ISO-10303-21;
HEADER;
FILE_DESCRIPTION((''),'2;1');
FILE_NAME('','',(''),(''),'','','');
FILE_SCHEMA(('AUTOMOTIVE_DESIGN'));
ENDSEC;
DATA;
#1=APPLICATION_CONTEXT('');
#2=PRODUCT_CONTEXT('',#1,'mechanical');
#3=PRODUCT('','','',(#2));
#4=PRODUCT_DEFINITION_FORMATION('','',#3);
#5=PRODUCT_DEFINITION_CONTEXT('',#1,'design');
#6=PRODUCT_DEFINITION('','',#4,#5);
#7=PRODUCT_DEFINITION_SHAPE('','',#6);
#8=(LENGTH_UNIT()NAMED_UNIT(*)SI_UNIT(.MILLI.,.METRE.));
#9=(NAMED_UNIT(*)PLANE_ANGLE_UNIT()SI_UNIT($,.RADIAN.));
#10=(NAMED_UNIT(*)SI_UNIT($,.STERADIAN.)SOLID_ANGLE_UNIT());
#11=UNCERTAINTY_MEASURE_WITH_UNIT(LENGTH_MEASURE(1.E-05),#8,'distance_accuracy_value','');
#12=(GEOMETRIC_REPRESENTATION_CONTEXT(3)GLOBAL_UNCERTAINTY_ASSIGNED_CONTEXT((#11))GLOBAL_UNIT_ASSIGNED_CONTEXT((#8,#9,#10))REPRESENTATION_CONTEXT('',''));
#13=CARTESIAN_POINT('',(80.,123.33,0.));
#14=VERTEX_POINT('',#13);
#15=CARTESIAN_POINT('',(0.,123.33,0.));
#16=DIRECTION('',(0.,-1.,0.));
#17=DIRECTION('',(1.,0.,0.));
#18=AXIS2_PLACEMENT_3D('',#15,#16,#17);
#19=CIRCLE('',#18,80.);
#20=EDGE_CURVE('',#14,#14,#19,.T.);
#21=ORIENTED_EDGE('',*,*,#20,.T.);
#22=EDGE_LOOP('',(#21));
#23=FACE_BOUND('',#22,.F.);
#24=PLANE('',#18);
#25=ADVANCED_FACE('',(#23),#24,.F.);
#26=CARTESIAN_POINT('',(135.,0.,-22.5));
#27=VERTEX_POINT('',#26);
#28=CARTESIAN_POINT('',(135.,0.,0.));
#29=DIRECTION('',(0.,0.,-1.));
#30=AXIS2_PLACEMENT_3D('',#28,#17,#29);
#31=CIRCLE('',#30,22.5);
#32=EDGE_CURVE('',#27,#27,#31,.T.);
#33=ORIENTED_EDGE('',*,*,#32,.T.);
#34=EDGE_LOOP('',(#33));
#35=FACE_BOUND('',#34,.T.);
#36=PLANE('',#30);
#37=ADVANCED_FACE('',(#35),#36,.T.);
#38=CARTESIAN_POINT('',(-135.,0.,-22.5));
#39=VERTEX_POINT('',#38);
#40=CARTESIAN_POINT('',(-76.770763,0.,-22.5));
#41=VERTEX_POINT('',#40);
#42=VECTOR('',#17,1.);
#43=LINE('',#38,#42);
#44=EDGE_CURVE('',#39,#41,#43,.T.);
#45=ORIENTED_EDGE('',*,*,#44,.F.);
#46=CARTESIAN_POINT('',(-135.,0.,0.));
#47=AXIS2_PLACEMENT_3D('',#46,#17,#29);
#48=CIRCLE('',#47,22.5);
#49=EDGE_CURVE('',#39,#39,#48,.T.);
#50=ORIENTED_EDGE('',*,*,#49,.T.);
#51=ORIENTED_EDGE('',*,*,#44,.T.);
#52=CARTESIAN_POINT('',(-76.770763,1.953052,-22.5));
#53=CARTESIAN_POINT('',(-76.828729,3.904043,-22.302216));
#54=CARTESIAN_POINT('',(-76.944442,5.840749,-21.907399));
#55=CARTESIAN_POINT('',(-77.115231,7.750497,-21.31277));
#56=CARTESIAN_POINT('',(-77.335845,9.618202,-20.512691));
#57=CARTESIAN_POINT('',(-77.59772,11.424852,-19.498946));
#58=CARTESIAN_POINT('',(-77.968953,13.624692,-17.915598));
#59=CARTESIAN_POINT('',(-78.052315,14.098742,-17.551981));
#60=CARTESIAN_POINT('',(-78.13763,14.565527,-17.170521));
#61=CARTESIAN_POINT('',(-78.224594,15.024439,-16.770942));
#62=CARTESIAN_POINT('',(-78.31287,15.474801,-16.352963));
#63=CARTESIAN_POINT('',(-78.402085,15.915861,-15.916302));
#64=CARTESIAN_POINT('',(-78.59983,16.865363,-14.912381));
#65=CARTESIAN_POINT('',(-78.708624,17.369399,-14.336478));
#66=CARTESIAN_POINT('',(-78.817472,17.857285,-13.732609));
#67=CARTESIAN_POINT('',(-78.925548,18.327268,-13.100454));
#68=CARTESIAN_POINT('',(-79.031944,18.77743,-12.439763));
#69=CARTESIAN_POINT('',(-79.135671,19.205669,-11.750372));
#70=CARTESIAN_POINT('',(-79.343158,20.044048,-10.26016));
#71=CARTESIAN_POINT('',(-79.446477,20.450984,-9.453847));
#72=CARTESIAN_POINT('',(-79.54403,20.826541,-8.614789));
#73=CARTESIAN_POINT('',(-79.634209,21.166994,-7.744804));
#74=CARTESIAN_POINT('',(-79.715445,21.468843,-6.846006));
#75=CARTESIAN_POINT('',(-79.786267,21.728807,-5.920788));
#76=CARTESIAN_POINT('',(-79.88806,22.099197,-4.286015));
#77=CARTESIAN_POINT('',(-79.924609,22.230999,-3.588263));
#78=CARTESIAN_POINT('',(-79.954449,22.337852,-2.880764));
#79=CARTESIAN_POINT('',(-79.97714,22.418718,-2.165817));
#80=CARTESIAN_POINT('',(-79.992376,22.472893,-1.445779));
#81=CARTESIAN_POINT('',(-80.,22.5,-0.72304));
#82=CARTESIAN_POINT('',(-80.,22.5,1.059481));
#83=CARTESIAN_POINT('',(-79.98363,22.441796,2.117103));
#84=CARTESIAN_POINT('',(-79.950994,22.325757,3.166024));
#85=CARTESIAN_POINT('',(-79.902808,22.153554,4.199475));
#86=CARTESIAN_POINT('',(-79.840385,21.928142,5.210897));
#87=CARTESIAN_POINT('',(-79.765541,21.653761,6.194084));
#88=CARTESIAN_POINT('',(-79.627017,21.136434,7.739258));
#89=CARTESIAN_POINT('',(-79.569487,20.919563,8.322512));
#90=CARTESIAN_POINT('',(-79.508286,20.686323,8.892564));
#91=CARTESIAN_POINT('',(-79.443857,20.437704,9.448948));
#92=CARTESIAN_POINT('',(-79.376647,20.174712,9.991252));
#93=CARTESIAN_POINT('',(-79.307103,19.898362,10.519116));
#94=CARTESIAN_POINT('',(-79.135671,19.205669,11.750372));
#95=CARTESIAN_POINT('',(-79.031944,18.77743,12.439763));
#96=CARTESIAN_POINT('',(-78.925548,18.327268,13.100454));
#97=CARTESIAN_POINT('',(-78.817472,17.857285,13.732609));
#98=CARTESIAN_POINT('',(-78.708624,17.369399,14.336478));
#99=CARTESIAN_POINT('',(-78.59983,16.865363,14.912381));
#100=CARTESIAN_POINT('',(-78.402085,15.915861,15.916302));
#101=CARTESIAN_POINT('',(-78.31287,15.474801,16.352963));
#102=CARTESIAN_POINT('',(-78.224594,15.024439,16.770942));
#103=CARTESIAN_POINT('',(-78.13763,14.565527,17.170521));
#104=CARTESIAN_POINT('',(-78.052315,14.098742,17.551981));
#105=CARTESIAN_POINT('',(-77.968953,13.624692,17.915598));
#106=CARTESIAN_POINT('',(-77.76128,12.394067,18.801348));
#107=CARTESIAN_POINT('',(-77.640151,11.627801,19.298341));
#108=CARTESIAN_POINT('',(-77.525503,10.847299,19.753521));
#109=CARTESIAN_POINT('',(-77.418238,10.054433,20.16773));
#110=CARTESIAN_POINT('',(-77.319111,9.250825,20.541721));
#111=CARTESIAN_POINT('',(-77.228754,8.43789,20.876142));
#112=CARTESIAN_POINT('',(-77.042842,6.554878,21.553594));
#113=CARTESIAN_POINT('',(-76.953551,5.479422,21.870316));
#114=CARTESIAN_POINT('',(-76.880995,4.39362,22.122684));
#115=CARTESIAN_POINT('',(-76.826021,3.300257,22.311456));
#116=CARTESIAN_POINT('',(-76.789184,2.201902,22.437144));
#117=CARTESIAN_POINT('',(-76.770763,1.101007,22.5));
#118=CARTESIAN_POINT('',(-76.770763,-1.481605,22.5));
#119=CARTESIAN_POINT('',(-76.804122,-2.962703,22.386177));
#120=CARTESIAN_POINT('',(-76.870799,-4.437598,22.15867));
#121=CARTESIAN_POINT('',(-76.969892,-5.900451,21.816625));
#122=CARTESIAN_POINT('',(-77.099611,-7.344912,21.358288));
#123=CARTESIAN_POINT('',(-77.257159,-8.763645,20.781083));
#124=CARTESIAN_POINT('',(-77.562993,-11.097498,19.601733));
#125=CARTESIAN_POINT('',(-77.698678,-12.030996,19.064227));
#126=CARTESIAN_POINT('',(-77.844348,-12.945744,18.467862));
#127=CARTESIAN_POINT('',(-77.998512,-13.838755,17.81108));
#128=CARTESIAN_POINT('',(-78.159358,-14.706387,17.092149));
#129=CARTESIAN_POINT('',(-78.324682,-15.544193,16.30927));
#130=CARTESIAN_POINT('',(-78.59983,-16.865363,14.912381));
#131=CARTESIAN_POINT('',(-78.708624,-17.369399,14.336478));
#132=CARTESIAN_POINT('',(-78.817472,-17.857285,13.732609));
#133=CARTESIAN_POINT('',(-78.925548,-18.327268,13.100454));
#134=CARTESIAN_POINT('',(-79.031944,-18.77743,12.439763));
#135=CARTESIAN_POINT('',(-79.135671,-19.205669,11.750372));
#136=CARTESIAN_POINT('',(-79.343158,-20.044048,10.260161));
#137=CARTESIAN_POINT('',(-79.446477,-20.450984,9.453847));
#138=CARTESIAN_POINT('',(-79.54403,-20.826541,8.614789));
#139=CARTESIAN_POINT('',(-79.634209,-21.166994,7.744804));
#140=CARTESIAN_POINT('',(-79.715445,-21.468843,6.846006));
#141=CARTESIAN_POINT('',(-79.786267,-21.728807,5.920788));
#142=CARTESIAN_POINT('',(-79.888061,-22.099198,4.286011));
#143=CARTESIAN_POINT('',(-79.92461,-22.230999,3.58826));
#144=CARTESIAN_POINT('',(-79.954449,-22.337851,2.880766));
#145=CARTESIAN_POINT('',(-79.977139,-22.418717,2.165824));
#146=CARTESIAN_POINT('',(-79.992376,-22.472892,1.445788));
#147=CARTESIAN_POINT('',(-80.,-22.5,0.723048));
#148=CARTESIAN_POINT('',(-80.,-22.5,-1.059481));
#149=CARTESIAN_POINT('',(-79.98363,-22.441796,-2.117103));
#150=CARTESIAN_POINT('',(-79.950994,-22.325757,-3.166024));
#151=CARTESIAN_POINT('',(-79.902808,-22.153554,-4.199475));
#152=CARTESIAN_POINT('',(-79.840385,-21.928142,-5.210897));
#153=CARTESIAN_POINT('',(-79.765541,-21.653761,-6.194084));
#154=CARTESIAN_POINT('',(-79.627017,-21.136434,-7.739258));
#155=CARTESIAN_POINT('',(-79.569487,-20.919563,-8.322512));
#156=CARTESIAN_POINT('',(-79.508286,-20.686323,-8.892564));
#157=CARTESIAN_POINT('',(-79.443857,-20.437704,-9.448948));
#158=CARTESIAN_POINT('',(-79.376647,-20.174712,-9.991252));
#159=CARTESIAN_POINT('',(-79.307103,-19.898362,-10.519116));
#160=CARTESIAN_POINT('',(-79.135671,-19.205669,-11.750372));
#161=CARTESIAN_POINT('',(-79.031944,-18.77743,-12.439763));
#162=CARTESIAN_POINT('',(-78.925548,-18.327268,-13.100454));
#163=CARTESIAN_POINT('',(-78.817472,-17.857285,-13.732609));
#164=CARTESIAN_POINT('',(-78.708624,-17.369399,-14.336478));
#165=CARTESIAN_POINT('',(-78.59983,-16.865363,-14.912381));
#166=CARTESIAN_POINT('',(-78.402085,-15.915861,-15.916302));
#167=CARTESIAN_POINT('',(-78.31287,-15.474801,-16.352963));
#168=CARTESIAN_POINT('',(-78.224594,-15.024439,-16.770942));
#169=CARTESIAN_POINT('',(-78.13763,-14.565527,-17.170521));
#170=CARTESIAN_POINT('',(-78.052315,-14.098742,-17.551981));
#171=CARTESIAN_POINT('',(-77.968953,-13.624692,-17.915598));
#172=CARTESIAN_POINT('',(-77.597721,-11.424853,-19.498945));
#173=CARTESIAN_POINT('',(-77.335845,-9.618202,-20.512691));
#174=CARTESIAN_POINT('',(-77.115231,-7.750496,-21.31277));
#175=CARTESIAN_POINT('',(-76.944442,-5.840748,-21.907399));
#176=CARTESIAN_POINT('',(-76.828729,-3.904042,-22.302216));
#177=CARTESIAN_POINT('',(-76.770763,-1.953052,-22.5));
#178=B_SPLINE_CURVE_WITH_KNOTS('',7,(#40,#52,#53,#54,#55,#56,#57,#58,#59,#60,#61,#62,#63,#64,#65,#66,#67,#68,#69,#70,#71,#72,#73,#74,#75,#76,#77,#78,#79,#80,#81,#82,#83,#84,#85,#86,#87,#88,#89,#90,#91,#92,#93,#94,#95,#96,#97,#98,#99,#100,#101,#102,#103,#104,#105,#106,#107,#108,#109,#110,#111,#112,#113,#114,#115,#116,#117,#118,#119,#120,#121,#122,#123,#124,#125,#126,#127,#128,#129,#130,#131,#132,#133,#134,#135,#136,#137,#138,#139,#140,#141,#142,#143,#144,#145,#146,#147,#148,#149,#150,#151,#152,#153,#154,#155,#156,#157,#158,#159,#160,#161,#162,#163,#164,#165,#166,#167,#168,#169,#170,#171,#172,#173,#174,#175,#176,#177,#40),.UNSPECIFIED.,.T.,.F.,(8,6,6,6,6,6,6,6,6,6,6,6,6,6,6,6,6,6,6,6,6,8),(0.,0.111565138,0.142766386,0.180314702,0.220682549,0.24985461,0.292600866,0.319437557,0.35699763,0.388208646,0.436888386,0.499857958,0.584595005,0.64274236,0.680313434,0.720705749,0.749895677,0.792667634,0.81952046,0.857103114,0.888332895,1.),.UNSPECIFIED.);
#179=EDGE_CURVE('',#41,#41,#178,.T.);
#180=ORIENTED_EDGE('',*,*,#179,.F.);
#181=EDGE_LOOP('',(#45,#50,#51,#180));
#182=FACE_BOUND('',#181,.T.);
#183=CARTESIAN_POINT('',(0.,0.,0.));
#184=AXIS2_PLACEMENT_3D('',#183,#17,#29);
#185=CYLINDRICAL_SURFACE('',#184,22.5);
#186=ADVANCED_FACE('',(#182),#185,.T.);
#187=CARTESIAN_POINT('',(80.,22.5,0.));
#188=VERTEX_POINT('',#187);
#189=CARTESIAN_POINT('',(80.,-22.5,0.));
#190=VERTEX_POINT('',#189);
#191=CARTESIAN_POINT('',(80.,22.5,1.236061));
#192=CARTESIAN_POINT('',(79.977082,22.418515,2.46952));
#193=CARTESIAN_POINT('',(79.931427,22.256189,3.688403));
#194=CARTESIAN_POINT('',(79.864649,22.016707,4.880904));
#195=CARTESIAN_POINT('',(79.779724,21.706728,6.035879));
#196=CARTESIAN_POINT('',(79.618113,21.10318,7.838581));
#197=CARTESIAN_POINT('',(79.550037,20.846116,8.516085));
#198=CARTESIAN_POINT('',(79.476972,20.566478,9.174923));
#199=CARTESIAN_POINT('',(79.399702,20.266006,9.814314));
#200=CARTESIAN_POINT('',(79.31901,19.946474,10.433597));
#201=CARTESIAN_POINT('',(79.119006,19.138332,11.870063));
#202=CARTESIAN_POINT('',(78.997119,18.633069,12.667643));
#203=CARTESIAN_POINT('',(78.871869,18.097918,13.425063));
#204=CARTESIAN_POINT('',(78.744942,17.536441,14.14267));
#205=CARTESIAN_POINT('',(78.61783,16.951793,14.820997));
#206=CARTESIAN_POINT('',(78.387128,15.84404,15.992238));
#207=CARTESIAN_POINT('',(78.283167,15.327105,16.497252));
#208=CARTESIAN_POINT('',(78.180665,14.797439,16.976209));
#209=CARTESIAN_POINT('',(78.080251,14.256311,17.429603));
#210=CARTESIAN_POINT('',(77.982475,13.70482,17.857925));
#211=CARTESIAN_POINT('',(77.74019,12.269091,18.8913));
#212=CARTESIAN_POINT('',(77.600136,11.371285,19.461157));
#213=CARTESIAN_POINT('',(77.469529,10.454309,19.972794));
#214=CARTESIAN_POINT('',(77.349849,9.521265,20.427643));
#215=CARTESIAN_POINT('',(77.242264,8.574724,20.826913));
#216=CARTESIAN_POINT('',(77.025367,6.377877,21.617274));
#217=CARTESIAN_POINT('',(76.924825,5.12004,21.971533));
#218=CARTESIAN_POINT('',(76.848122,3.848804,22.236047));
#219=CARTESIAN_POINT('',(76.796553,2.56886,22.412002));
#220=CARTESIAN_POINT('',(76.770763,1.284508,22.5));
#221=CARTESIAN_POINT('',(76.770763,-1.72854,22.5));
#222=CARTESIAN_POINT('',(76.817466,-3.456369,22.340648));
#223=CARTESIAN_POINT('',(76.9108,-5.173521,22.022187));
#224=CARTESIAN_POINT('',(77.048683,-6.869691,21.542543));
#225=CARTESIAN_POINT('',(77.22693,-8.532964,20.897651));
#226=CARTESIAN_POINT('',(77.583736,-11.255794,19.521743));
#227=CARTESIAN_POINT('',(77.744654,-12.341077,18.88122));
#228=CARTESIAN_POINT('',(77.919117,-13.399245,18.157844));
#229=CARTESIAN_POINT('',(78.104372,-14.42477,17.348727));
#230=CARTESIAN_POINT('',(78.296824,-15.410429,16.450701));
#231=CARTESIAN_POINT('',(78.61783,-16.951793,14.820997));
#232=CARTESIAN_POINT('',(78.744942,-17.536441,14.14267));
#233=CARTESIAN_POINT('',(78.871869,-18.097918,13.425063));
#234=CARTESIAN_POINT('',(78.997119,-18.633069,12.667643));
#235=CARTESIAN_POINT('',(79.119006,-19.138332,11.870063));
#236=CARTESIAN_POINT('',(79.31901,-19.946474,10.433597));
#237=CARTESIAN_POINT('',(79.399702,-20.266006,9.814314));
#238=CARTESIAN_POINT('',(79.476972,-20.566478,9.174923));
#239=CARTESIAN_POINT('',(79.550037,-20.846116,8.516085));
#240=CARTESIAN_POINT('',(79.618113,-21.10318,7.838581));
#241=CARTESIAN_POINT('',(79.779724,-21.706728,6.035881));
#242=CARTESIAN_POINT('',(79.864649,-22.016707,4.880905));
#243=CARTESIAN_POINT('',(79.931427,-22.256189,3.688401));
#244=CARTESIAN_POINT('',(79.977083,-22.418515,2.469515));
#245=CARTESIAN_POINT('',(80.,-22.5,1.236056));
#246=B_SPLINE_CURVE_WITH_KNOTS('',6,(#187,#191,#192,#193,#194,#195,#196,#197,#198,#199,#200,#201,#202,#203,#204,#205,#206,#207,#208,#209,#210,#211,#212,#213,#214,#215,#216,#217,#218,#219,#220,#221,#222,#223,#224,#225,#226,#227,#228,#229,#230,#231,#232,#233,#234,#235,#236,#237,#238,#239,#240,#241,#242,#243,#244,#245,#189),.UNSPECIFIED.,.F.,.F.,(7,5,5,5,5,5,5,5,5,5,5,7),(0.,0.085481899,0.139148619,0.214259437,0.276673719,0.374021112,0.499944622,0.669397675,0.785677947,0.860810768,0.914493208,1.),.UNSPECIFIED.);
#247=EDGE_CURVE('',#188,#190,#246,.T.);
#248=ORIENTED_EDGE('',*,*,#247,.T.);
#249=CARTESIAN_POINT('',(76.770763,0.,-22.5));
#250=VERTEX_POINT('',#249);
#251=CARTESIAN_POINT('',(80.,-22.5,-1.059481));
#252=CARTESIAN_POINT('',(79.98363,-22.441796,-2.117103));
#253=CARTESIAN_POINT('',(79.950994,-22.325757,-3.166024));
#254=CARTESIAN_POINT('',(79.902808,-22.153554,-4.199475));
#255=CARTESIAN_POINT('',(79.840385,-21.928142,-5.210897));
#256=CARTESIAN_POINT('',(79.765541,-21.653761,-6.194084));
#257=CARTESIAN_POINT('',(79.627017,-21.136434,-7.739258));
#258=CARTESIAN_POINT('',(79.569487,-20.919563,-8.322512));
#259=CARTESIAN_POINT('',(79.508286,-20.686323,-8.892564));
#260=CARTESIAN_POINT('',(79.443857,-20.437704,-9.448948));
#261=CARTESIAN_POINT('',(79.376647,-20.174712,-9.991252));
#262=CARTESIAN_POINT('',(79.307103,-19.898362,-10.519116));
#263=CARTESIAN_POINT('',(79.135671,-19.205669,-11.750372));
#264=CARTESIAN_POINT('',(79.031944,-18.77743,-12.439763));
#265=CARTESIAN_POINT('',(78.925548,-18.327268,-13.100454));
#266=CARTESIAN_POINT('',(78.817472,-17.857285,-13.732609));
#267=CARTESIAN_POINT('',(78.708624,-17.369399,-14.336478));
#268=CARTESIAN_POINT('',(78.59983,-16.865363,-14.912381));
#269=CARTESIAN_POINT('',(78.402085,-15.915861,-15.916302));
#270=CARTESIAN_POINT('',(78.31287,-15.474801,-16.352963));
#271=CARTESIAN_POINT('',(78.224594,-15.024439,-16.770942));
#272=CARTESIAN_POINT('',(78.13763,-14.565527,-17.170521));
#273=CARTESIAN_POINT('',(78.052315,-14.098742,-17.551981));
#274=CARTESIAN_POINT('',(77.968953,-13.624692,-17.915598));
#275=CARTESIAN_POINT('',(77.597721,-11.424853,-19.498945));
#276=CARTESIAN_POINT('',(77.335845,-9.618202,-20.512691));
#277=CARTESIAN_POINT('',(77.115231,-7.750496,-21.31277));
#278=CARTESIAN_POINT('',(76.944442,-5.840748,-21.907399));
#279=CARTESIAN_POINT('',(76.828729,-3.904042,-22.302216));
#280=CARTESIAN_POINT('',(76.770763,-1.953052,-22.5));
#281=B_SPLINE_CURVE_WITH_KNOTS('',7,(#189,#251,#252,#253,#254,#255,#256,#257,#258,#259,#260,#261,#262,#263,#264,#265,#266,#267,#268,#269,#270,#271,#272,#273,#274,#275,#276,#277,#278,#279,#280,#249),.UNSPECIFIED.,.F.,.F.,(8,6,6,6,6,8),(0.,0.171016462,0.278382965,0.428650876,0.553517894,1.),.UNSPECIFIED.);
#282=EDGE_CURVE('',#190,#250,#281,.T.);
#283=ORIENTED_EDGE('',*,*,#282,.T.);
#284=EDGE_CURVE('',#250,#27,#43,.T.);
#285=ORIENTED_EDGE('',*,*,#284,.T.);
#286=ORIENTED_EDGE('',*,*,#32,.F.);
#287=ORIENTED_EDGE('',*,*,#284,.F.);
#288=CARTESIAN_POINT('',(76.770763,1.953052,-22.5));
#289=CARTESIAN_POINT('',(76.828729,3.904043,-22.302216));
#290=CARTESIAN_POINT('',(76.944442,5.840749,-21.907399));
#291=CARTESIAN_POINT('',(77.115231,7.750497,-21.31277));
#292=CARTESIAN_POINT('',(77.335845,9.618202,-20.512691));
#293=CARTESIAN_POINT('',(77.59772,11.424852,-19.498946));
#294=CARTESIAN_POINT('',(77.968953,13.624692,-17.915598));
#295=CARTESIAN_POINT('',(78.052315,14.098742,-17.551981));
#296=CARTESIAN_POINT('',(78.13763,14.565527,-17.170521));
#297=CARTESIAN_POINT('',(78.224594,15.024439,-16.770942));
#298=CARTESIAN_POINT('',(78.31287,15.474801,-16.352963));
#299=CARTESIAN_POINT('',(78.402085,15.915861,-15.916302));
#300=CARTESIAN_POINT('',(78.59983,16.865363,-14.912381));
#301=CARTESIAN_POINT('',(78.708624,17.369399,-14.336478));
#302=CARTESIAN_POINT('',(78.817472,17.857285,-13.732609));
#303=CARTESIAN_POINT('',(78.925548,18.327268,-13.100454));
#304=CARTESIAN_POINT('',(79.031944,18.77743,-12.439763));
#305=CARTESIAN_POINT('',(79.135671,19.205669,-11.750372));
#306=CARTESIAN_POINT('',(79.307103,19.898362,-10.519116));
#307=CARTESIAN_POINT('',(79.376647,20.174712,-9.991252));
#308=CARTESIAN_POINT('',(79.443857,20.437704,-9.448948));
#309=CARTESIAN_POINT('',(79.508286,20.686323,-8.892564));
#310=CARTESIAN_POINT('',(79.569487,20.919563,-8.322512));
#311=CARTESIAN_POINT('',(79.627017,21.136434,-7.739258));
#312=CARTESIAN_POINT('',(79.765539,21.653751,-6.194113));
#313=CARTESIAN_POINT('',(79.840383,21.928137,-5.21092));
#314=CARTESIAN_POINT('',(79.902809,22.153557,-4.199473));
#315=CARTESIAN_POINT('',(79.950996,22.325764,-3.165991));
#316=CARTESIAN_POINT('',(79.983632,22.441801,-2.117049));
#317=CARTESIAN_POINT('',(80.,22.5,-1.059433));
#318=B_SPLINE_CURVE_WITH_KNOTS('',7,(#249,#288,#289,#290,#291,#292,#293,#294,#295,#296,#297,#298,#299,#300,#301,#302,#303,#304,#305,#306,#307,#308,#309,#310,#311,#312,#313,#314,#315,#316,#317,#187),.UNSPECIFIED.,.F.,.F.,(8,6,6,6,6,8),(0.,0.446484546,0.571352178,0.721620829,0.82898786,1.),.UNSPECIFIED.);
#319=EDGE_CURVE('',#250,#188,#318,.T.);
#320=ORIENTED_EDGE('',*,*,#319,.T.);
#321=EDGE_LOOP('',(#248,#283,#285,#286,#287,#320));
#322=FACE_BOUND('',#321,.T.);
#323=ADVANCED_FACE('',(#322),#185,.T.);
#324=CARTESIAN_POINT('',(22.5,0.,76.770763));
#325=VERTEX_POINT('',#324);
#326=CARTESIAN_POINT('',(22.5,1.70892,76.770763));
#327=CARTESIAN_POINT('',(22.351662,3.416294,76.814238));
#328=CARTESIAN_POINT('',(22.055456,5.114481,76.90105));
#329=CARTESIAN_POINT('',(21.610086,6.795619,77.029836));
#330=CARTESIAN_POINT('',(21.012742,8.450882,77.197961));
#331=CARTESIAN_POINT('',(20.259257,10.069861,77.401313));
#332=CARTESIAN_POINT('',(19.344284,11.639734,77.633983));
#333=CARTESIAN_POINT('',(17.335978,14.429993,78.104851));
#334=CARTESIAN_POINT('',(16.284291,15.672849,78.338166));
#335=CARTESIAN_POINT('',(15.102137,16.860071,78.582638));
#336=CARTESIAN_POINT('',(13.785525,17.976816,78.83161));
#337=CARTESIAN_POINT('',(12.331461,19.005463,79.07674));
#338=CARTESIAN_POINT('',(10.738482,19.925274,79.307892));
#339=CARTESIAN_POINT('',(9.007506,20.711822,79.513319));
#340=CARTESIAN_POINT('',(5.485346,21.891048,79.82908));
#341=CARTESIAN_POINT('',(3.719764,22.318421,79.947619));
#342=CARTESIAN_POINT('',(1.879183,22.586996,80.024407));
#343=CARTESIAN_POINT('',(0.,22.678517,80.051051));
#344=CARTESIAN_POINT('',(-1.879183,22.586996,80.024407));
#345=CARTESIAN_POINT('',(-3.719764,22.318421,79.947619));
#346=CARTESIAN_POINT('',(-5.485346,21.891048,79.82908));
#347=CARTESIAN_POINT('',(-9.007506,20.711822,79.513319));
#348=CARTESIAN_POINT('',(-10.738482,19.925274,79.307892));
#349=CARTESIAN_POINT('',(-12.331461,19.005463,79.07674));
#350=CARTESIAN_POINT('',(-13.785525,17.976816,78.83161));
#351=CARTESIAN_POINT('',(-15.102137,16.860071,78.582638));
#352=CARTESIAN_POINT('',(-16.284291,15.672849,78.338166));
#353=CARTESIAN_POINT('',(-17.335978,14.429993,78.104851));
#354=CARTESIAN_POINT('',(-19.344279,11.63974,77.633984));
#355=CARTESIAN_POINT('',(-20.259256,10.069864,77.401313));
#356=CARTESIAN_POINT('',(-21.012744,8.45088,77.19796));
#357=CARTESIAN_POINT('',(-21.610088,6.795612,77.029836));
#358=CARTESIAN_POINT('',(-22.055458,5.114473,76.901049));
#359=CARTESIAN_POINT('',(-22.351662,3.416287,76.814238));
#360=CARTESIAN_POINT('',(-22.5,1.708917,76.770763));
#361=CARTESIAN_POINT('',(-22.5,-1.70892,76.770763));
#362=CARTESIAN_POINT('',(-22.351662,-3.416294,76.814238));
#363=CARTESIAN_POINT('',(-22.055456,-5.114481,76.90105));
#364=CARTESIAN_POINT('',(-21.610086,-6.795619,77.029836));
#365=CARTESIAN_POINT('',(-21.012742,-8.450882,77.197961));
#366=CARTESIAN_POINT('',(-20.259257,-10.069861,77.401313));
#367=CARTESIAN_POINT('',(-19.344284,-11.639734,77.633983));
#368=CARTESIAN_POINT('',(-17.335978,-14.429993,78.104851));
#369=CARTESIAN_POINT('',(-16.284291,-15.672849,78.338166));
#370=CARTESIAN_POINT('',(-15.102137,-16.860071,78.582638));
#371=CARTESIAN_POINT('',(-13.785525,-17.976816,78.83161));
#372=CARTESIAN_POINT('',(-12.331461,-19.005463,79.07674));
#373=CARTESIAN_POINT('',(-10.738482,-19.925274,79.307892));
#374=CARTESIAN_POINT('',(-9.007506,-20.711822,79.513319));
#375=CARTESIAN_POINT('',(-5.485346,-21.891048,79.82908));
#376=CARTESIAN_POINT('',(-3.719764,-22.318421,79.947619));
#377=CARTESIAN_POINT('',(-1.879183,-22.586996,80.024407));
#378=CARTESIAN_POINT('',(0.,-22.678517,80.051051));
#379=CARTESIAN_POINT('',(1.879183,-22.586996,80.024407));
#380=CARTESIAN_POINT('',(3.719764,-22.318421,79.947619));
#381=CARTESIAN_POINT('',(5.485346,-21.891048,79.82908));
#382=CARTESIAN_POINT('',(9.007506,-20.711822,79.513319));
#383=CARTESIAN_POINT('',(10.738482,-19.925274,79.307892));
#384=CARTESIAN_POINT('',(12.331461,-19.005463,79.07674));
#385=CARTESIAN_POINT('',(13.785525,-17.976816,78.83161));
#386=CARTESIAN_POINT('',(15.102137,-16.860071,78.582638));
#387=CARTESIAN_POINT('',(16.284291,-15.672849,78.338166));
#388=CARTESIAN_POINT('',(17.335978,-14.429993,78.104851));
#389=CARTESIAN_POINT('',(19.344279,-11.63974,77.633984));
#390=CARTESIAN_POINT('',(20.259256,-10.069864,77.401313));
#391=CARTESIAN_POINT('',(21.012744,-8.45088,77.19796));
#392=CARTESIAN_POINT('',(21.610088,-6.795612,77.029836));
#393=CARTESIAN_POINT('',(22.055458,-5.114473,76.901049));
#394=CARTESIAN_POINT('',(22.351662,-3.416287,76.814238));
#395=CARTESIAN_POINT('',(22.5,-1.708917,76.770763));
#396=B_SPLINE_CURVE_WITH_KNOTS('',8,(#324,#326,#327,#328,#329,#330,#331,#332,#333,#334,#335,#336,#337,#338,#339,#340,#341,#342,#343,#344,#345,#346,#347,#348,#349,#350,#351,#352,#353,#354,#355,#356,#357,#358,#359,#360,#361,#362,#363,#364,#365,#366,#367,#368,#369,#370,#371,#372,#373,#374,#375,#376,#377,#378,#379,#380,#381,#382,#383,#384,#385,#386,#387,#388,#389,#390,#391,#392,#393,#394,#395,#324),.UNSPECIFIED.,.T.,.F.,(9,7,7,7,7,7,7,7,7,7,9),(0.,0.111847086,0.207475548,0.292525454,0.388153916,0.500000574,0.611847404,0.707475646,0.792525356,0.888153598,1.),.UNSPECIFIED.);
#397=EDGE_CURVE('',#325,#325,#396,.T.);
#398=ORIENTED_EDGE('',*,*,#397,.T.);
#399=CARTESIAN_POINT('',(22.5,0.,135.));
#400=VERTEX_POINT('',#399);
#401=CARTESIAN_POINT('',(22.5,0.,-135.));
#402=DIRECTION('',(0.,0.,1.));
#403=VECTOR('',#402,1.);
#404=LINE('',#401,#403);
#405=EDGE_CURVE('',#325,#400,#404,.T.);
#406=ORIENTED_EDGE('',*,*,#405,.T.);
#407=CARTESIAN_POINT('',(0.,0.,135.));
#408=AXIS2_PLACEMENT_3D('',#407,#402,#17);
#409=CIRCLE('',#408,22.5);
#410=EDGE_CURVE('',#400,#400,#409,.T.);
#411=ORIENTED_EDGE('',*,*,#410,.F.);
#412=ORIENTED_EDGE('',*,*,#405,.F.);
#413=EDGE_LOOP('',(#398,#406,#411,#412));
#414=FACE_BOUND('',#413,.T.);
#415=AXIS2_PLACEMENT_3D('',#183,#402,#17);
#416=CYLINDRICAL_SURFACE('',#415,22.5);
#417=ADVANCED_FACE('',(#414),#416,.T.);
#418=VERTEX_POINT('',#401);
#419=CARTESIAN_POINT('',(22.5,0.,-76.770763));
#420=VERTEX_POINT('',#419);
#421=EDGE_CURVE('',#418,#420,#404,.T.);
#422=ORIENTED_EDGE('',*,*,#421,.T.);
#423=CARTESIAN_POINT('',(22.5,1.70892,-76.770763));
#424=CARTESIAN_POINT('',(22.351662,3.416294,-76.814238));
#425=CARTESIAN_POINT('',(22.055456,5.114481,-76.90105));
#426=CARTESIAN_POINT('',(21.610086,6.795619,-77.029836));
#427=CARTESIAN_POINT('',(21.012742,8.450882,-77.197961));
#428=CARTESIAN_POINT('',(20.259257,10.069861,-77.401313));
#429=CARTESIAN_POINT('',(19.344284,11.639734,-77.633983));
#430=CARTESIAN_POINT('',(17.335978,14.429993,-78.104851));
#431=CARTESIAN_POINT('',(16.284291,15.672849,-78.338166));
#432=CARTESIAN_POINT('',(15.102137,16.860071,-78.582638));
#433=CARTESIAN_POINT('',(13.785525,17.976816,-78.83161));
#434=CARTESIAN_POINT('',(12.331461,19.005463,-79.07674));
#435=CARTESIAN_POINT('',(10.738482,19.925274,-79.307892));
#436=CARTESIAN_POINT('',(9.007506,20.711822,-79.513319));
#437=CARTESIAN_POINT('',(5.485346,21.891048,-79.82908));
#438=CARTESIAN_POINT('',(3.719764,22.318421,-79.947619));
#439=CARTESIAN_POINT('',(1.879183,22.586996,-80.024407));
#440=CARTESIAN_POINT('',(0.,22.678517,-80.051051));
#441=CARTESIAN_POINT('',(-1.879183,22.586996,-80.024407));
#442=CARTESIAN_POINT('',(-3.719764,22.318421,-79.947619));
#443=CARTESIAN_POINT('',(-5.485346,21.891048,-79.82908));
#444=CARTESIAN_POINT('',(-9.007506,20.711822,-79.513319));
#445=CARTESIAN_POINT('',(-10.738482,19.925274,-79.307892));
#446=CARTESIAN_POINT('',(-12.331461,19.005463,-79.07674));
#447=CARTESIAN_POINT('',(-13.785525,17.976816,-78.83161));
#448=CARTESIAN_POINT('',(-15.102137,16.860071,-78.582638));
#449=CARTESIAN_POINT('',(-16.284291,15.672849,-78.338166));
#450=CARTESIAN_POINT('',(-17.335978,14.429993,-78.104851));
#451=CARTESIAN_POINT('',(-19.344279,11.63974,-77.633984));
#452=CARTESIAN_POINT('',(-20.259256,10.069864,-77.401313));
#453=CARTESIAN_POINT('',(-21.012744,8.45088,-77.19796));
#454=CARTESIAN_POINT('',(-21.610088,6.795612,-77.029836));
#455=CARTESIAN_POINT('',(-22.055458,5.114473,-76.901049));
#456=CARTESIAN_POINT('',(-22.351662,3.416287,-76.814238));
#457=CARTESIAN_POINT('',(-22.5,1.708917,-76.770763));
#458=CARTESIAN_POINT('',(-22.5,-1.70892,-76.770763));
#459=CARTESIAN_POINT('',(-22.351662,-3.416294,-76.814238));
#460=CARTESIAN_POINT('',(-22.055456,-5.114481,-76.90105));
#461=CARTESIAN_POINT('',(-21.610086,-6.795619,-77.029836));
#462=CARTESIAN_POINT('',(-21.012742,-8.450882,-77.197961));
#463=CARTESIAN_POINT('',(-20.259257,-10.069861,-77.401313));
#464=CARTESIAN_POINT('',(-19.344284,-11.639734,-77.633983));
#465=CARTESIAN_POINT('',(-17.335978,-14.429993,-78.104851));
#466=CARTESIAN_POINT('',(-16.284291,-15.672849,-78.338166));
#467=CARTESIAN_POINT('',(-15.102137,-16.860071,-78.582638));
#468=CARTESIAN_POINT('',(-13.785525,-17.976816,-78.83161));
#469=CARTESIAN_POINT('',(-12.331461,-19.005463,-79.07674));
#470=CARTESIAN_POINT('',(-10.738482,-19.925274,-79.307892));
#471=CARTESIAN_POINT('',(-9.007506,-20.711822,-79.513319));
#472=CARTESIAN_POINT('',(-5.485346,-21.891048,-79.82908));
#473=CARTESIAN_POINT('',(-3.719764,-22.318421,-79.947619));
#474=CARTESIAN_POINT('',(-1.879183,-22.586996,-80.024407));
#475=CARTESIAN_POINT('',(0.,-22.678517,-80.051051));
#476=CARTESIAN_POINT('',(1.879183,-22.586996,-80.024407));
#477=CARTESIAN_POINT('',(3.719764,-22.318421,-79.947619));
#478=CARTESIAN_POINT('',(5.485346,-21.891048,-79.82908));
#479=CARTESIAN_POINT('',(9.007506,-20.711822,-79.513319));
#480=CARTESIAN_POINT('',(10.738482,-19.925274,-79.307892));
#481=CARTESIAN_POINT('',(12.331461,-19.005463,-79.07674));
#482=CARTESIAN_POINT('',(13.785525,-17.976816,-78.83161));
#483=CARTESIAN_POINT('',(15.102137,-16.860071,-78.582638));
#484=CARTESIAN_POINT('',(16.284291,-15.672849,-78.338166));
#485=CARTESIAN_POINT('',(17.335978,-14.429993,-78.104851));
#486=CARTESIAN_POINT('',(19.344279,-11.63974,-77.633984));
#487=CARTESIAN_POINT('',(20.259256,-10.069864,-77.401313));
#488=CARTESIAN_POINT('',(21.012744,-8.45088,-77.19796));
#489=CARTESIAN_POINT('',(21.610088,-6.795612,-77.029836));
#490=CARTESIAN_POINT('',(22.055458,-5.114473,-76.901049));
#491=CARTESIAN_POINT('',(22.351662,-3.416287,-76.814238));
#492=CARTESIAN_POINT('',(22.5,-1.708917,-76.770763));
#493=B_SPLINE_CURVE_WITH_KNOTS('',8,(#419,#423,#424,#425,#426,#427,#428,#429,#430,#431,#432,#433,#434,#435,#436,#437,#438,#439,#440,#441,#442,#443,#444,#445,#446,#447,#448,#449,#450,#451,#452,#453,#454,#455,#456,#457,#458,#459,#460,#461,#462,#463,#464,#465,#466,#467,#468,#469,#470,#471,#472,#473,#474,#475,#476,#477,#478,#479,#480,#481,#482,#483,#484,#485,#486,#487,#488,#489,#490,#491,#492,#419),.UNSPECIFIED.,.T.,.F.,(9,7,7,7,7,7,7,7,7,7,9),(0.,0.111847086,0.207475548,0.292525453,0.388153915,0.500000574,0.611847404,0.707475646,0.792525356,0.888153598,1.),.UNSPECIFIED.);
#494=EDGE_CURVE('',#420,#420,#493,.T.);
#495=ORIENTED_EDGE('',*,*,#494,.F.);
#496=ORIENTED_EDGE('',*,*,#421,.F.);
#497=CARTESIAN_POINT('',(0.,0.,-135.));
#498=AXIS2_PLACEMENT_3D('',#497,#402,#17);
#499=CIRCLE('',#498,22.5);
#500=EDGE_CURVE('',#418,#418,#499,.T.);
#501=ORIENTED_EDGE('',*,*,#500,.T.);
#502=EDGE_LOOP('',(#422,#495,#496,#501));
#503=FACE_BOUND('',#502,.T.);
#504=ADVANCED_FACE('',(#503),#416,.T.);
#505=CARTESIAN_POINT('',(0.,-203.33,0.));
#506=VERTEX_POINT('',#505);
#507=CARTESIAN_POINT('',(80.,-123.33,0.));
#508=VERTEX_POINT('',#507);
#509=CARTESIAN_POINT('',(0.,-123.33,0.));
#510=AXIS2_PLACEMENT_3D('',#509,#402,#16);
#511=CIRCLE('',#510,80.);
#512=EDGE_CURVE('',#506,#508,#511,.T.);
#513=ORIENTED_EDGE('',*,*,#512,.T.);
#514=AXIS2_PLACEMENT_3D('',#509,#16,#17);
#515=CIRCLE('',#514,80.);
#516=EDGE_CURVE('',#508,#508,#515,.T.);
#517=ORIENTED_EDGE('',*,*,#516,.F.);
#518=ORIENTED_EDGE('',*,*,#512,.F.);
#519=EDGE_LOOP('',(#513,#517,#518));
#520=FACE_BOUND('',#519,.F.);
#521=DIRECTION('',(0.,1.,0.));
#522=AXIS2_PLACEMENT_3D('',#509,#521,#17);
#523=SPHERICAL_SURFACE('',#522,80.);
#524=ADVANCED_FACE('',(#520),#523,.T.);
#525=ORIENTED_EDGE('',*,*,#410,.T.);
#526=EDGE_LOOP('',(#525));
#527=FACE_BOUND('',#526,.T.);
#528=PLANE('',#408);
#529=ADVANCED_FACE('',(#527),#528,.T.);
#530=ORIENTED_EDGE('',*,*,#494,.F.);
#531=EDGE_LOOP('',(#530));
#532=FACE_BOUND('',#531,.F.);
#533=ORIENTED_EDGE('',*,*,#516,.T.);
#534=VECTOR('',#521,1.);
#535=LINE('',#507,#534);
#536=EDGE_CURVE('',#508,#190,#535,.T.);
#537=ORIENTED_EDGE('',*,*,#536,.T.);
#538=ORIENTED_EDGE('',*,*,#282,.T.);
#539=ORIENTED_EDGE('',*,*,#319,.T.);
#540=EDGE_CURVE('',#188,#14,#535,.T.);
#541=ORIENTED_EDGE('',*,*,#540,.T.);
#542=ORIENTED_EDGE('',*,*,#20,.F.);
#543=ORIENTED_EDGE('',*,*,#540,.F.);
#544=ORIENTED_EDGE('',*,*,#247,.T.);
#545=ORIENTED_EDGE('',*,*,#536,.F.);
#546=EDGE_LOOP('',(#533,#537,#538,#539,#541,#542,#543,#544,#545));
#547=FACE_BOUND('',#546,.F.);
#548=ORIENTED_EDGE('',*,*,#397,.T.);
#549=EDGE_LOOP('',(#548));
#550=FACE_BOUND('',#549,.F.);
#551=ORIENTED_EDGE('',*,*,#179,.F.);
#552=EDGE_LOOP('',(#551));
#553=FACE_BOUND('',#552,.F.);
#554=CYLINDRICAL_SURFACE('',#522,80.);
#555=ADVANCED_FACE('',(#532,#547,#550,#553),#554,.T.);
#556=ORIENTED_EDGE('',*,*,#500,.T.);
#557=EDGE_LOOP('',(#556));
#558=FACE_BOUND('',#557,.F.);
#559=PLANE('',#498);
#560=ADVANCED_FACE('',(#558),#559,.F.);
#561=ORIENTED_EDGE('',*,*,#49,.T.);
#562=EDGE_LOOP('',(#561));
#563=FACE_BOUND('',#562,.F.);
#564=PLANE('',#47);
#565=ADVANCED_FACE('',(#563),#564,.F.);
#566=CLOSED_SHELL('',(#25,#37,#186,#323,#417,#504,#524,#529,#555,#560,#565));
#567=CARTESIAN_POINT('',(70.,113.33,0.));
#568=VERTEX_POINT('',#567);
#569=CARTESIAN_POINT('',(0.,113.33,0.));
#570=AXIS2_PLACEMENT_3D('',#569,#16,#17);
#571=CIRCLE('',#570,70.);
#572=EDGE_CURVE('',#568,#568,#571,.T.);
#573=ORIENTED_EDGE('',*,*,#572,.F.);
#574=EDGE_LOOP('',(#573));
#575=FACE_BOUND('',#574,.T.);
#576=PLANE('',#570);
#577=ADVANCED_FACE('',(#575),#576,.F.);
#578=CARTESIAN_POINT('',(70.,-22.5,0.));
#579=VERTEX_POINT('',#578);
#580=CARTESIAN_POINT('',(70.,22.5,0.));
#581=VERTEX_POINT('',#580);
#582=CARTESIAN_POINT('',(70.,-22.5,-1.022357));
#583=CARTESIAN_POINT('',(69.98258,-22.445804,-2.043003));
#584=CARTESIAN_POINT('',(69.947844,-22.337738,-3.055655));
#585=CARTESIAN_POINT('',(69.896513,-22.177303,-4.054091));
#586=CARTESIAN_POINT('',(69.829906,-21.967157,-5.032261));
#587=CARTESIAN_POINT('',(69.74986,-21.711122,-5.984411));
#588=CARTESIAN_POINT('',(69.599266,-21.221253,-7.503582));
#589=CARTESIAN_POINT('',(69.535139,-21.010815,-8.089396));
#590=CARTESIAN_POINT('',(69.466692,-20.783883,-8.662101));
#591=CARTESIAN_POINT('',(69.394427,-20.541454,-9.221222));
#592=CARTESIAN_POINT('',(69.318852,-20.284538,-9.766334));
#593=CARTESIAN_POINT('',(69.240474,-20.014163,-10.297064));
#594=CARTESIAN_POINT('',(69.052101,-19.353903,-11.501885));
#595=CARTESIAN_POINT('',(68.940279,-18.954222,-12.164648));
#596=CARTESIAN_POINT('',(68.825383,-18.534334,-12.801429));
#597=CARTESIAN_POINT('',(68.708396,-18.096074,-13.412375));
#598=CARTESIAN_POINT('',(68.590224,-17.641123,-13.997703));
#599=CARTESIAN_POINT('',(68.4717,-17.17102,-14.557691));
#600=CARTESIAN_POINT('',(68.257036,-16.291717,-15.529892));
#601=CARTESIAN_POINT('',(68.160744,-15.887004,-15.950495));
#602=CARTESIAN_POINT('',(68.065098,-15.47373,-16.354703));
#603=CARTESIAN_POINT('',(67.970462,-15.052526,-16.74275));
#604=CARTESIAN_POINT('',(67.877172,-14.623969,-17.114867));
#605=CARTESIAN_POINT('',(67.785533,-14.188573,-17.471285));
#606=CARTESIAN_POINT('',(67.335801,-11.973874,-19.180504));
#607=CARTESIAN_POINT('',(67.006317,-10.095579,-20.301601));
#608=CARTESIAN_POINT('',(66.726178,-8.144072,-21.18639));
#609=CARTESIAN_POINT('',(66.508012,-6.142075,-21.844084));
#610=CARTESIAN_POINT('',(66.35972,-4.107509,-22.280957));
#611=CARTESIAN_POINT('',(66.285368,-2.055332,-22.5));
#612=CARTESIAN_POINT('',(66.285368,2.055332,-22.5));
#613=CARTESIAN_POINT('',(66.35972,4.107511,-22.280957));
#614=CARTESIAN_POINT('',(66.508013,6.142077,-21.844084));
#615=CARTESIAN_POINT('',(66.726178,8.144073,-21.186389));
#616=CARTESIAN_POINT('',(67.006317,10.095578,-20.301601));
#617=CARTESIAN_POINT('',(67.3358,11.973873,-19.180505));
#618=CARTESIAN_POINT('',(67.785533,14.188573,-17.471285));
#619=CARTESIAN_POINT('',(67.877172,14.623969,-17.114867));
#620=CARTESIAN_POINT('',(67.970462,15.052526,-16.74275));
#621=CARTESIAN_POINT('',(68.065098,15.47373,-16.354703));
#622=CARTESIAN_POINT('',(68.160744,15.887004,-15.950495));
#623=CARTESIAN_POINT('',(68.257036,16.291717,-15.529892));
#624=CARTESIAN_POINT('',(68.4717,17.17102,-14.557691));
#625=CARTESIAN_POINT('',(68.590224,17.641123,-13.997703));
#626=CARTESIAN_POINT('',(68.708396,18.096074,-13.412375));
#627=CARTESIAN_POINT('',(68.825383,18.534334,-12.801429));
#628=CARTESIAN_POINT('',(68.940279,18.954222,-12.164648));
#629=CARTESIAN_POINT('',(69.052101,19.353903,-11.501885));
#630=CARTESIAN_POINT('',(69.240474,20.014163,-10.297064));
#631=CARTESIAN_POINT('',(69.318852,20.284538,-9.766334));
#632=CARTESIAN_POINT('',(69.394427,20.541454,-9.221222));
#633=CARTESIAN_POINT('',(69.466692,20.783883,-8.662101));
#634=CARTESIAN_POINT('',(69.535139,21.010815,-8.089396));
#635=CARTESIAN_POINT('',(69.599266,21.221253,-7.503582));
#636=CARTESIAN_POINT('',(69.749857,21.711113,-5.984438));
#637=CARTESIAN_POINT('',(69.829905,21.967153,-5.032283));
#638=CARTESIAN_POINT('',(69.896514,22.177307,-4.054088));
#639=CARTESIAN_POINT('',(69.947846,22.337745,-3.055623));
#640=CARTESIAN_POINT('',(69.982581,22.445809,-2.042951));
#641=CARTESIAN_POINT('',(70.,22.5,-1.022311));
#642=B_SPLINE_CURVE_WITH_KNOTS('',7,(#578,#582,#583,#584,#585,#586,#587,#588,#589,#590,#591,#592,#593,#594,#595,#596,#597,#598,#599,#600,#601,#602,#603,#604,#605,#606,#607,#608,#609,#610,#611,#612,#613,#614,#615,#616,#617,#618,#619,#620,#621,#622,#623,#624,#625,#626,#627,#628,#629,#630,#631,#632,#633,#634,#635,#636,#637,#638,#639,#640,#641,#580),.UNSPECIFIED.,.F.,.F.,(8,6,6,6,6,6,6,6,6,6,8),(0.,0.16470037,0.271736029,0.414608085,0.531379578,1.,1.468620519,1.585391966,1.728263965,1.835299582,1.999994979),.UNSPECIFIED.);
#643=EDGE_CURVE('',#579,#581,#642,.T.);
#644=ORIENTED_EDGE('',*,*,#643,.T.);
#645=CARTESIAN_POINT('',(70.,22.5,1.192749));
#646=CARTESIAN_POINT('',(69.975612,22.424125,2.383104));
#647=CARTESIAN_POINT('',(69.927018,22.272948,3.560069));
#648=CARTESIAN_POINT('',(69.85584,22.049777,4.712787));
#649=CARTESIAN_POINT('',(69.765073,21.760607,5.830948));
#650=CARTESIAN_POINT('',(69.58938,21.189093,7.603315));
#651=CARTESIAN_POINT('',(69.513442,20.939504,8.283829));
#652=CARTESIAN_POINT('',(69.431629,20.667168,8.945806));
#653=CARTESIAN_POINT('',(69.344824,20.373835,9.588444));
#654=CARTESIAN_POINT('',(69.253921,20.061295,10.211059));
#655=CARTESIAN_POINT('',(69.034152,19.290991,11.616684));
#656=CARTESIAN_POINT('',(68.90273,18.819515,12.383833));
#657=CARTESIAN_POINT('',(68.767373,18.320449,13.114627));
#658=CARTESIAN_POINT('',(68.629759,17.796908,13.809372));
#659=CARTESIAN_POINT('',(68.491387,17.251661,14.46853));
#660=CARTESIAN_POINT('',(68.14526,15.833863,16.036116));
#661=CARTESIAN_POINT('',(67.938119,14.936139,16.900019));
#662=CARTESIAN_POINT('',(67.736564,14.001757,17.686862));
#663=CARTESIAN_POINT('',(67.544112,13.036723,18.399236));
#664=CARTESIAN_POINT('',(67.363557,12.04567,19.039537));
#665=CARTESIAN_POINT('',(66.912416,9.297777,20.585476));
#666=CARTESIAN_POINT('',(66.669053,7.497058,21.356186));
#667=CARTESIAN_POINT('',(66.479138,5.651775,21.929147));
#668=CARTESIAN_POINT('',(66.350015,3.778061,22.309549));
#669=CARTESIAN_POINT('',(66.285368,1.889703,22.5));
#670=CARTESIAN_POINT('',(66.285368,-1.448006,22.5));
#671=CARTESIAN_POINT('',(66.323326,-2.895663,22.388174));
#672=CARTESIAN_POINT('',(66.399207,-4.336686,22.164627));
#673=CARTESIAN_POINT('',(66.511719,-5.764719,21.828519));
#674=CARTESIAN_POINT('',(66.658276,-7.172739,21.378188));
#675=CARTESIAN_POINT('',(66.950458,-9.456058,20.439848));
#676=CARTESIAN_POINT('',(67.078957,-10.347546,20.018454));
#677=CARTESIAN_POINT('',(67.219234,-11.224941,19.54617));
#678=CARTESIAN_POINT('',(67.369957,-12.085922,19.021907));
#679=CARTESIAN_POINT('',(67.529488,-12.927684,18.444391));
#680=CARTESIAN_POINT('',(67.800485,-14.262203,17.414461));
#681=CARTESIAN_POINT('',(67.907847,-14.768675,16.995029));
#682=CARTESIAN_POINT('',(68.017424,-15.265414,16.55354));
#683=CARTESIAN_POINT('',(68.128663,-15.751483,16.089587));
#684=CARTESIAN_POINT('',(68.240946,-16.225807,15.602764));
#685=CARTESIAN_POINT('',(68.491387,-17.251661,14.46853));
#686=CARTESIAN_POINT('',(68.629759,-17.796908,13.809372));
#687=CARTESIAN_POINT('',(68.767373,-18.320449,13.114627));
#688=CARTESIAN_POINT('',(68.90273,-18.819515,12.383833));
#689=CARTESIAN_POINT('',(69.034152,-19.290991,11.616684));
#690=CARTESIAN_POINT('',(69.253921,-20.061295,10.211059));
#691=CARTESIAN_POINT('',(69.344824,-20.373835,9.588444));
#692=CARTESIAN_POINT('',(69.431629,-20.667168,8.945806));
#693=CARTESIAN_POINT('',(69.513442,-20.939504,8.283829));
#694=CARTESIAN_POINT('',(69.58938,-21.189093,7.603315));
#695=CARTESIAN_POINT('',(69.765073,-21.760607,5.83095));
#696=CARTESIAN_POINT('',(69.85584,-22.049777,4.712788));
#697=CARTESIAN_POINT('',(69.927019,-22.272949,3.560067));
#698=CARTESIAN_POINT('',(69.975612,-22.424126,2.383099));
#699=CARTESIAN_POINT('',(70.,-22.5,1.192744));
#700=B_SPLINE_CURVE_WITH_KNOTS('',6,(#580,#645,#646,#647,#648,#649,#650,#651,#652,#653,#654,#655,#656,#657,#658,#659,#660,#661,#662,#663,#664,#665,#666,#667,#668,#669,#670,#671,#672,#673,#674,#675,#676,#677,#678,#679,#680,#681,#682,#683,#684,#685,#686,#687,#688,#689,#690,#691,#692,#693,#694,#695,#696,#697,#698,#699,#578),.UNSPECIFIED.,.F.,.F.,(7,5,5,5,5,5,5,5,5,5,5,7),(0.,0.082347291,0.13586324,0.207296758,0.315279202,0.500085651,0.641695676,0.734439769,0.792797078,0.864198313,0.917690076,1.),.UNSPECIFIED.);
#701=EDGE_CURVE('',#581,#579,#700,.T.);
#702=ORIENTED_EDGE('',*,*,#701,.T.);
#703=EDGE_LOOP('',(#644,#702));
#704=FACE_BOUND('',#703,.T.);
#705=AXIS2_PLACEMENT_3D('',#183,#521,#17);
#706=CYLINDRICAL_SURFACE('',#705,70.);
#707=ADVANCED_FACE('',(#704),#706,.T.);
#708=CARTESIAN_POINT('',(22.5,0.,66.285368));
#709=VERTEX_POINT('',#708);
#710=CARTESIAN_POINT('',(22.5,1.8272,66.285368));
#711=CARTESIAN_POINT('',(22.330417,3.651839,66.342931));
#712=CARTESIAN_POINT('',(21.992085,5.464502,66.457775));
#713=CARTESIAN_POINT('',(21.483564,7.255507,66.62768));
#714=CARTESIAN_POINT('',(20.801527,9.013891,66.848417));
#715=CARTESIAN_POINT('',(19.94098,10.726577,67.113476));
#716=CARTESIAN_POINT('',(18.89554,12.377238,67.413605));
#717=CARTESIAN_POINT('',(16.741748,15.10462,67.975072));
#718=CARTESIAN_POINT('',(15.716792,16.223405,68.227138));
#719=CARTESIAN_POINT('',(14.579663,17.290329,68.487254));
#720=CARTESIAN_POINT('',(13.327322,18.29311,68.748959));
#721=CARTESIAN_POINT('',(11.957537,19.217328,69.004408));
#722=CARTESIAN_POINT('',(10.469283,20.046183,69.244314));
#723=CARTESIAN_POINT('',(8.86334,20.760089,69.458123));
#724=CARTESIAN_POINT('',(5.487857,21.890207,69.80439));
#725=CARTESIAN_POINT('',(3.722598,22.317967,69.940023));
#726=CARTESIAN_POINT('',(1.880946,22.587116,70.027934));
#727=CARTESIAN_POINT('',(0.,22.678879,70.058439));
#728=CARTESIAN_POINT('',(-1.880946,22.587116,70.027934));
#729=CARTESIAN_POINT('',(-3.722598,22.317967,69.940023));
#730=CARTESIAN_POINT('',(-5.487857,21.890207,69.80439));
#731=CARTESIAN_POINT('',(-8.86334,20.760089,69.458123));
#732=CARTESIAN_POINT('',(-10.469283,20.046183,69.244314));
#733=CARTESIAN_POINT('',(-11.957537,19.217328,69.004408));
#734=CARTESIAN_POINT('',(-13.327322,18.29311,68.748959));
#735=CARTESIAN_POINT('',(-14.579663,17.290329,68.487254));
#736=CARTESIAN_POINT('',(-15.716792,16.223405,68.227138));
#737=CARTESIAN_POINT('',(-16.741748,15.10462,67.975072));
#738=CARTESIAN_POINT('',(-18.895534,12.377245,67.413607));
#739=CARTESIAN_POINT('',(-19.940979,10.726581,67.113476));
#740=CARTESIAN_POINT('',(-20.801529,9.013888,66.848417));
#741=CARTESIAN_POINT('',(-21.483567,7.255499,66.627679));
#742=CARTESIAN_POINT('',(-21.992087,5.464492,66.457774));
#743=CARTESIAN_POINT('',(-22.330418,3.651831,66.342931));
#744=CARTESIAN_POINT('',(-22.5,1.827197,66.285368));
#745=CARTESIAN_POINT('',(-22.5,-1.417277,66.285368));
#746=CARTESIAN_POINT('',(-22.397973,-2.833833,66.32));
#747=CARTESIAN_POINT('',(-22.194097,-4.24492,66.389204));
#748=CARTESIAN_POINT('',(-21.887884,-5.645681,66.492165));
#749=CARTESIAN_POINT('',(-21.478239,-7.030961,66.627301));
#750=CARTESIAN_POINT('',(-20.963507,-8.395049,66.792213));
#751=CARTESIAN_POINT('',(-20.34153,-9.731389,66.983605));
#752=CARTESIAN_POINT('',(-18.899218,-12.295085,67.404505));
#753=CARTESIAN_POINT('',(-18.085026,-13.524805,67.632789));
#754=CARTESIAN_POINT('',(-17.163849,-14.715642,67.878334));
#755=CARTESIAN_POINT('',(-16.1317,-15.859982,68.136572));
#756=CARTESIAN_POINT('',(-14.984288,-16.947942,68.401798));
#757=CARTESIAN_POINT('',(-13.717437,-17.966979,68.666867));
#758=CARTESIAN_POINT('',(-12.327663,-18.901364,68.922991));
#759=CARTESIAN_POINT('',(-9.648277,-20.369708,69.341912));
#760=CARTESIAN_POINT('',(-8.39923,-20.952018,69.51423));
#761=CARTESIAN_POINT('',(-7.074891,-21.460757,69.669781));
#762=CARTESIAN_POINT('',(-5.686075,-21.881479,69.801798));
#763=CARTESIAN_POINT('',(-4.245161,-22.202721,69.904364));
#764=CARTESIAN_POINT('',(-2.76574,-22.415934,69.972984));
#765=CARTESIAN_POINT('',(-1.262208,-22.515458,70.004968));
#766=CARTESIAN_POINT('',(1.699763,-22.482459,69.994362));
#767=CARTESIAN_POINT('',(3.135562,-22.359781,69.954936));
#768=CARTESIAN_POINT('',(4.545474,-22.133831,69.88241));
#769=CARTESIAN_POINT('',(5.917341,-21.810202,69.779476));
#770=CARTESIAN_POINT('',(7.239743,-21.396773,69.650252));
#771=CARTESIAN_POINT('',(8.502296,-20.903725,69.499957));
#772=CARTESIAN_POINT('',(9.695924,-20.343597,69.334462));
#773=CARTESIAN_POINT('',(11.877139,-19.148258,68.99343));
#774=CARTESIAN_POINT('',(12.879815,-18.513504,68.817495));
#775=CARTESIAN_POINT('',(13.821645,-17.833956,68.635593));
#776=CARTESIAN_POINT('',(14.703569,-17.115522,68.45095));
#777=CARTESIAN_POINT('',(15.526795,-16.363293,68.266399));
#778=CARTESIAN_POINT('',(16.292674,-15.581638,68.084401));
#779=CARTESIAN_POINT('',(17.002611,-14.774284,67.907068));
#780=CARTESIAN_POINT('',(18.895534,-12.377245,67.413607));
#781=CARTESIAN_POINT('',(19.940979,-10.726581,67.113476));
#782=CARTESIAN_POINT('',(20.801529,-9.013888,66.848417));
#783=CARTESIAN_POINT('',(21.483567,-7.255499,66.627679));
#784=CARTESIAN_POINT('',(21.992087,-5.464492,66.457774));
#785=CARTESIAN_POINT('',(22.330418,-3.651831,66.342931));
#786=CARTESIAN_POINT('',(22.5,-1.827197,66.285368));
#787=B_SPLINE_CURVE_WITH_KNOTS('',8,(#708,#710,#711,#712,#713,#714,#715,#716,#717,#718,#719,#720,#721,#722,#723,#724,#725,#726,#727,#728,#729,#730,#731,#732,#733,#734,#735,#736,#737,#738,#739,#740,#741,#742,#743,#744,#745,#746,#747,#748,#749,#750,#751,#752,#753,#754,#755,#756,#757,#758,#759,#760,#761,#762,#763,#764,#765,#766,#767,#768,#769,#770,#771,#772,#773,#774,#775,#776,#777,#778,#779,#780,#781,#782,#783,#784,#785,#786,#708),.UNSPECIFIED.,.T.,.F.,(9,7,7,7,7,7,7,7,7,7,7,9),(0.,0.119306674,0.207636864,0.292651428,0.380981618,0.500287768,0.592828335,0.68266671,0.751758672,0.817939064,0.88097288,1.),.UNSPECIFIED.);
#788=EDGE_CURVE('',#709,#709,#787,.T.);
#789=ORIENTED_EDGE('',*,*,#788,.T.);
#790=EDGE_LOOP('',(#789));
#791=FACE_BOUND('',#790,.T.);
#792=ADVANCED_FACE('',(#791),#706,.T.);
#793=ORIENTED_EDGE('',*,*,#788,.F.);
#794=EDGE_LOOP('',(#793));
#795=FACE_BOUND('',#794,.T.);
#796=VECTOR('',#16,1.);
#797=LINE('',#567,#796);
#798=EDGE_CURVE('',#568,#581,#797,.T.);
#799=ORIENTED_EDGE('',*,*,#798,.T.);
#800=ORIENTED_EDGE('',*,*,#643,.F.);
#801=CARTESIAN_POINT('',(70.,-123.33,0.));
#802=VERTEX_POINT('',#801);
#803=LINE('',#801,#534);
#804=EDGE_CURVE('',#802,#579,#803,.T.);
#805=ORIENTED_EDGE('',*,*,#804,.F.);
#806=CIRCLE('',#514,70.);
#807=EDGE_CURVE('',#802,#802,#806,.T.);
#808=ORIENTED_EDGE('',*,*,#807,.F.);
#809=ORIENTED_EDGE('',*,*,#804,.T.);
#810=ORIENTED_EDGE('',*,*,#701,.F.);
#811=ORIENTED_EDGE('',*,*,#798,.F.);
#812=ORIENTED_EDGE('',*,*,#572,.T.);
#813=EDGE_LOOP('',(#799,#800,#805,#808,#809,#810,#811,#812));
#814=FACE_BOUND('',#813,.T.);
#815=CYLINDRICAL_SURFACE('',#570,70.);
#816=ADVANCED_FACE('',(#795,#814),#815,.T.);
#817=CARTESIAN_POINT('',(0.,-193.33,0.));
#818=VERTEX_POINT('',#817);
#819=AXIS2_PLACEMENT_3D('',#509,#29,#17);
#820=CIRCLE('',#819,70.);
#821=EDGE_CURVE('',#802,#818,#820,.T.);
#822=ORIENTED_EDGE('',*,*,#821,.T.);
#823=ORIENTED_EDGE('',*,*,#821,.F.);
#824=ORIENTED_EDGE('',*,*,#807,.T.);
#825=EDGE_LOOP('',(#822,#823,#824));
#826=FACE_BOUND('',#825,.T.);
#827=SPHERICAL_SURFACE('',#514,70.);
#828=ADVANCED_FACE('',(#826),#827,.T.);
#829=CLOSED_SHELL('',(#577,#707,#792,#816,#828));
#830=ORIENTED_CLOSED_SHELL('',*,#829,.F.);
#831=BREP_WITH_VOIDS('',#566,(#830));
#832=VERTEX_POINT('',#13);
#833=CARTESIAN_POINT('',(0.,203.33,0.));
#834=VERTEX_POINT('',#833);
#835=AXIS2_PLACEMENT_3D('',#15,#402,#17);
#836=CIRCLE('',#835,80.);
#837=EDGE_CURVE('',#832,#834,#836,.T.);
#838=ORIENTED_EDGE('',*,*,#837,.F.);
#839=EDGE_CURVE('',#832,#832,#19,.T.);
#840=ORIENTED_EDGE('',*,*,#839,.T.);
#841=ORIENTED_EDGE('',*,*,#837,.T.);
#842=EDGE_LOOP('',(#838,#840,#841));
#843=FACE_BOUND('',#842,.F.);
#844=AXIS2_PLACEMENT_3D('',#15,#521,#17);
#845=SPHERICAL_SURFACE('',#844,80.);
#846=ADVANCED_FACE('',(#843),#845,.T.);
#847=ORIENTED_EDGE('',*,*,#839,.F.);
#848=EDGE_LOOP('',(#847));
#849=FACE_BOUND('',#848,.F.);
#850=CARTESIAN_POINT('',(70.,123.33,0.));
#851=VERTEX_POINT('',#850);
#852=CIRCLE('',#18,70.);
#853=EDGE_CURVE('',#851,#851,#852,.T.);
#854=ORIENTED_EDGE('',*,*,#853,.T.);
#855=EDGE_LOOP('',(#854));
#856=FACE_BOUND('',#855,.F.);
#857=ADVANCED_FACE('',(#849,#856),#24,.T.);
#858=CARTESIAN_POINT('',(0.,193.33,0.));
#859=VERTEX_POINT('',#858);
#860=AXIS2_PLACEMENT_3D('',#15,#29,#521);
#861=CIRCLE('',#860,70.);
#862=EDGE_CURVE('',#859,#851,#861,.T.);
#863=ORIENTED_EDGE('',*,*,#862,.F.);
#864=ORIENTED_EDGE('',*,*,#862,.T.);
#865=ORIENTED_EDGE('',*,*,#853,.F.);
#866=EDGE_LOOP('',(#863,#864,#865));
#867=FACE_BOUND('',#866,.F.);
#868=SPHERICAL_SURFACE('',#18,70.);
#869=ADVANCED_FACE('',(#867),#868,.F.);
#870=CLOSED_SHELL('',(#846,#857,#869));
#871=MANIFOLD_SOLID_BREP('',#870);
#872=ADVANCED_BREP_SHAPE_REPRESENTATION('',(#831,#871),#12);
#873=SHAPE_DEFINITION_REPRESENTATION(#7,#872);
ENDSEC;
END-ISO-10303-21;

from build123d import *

# Parameters (mm, degrees)
SKETCH1_W           = 10
SKETCH1_H           = 113.33
SKETCH3_R           = 22.5
BOSS_EXTRUDE1_DEPTH = 135
SKETCH5_R           = 22.5
BOSS_EXTRUDE3_DEPTH = 135
SKETCH6_R           = 70
CUT_EXTRUDE1_DEPTH  = 25


with BuildPart() as part:
    # Sketch1 → Revolve1 (revolve)
    with BuildSketch(Plane.XY):
        Polygon((80, 113.33), (80, 123.33), (70, 123.33), (0, 123.33), (0, 113.33), (70, 113.33), align=None)
        with Locations((75, 56.665)):
            Rectangle(SKETCH1_W, SKETCH1_H)
        with BuildLine():
            Line((80, -123.33), (80, 0))
            Line((80, 0), (70, 0))
            Line((70, 0), (70, -123.33))
            ThreePointArc((70, -123.33), (49.497474683, -172.827474683), (0, -193.33))
            Line((0, -193.33), (0, -203.33))
            ThreePointArc((0, -203.33), (56.568542495, -179.898542495), (80, -123.33))
        make_face()
    revolve(axis=Axis((0, 203.33, 0), (0, -1, 0)))



with BuildPart() as body_2:
    # Sketch1<3> → Revolve2 (revolve)
    with BuildSketch(Plane.XY):
        with BuildLine():
            Line((0, 203.33), (0, 193.33))
            ThreePointArc((0, 193.33), (49.497474683, 172.827474683), (70, 123.33))
            Line((70, 123.33), (80, 123.33))
            ThreePointArc((80, 123.33), (56.568542495, 179.898542495), (0, 203.33))
        make_face()
    revolve(axis=Axis((0, 203.33, 0), (0, -1, 0)))


with BuildPart() as body_3:
    # Sketch3 → Boss-Extrude1 (new body, symmetric)
    with BuildSketch(Plane.XY):
        Circle(SKETCH3_R)
    extrude(amount=BOSS_EXTRUDE1_DEPTH, both=True)


with BuildPart() as part_1:
    add(part.part)

    add(body_3.part)  # Boss-Extrude3 merges body 3
    # Sketch5 → Boss-Extrude3 (add, symmetric)
    with BuildSketch(Plane(origin=(0, 0, 0), x_dir=(0, 0, -1), z_dir=(1, 0, 0))):
        Circle(SKETCH5_R)
    extrude(amount=BOSS_EXTRUDE3_DEPTH, both=True)

    # Sketch6 → Cut-Extrude1 (cut, symmetric)
    with BuildSketch(Plane(origin=(0, 0, 0), x_dir=(1, 0, 0), z_dir=(0, 1, 0))):
        Circle(SKETCH6_R)
    extrude(amount=CUT_EXTRUDE1_DEPTH, both=True, mode=Mode.SUBTRACT)


solid = Compound([body_2.part, part_1.part])
